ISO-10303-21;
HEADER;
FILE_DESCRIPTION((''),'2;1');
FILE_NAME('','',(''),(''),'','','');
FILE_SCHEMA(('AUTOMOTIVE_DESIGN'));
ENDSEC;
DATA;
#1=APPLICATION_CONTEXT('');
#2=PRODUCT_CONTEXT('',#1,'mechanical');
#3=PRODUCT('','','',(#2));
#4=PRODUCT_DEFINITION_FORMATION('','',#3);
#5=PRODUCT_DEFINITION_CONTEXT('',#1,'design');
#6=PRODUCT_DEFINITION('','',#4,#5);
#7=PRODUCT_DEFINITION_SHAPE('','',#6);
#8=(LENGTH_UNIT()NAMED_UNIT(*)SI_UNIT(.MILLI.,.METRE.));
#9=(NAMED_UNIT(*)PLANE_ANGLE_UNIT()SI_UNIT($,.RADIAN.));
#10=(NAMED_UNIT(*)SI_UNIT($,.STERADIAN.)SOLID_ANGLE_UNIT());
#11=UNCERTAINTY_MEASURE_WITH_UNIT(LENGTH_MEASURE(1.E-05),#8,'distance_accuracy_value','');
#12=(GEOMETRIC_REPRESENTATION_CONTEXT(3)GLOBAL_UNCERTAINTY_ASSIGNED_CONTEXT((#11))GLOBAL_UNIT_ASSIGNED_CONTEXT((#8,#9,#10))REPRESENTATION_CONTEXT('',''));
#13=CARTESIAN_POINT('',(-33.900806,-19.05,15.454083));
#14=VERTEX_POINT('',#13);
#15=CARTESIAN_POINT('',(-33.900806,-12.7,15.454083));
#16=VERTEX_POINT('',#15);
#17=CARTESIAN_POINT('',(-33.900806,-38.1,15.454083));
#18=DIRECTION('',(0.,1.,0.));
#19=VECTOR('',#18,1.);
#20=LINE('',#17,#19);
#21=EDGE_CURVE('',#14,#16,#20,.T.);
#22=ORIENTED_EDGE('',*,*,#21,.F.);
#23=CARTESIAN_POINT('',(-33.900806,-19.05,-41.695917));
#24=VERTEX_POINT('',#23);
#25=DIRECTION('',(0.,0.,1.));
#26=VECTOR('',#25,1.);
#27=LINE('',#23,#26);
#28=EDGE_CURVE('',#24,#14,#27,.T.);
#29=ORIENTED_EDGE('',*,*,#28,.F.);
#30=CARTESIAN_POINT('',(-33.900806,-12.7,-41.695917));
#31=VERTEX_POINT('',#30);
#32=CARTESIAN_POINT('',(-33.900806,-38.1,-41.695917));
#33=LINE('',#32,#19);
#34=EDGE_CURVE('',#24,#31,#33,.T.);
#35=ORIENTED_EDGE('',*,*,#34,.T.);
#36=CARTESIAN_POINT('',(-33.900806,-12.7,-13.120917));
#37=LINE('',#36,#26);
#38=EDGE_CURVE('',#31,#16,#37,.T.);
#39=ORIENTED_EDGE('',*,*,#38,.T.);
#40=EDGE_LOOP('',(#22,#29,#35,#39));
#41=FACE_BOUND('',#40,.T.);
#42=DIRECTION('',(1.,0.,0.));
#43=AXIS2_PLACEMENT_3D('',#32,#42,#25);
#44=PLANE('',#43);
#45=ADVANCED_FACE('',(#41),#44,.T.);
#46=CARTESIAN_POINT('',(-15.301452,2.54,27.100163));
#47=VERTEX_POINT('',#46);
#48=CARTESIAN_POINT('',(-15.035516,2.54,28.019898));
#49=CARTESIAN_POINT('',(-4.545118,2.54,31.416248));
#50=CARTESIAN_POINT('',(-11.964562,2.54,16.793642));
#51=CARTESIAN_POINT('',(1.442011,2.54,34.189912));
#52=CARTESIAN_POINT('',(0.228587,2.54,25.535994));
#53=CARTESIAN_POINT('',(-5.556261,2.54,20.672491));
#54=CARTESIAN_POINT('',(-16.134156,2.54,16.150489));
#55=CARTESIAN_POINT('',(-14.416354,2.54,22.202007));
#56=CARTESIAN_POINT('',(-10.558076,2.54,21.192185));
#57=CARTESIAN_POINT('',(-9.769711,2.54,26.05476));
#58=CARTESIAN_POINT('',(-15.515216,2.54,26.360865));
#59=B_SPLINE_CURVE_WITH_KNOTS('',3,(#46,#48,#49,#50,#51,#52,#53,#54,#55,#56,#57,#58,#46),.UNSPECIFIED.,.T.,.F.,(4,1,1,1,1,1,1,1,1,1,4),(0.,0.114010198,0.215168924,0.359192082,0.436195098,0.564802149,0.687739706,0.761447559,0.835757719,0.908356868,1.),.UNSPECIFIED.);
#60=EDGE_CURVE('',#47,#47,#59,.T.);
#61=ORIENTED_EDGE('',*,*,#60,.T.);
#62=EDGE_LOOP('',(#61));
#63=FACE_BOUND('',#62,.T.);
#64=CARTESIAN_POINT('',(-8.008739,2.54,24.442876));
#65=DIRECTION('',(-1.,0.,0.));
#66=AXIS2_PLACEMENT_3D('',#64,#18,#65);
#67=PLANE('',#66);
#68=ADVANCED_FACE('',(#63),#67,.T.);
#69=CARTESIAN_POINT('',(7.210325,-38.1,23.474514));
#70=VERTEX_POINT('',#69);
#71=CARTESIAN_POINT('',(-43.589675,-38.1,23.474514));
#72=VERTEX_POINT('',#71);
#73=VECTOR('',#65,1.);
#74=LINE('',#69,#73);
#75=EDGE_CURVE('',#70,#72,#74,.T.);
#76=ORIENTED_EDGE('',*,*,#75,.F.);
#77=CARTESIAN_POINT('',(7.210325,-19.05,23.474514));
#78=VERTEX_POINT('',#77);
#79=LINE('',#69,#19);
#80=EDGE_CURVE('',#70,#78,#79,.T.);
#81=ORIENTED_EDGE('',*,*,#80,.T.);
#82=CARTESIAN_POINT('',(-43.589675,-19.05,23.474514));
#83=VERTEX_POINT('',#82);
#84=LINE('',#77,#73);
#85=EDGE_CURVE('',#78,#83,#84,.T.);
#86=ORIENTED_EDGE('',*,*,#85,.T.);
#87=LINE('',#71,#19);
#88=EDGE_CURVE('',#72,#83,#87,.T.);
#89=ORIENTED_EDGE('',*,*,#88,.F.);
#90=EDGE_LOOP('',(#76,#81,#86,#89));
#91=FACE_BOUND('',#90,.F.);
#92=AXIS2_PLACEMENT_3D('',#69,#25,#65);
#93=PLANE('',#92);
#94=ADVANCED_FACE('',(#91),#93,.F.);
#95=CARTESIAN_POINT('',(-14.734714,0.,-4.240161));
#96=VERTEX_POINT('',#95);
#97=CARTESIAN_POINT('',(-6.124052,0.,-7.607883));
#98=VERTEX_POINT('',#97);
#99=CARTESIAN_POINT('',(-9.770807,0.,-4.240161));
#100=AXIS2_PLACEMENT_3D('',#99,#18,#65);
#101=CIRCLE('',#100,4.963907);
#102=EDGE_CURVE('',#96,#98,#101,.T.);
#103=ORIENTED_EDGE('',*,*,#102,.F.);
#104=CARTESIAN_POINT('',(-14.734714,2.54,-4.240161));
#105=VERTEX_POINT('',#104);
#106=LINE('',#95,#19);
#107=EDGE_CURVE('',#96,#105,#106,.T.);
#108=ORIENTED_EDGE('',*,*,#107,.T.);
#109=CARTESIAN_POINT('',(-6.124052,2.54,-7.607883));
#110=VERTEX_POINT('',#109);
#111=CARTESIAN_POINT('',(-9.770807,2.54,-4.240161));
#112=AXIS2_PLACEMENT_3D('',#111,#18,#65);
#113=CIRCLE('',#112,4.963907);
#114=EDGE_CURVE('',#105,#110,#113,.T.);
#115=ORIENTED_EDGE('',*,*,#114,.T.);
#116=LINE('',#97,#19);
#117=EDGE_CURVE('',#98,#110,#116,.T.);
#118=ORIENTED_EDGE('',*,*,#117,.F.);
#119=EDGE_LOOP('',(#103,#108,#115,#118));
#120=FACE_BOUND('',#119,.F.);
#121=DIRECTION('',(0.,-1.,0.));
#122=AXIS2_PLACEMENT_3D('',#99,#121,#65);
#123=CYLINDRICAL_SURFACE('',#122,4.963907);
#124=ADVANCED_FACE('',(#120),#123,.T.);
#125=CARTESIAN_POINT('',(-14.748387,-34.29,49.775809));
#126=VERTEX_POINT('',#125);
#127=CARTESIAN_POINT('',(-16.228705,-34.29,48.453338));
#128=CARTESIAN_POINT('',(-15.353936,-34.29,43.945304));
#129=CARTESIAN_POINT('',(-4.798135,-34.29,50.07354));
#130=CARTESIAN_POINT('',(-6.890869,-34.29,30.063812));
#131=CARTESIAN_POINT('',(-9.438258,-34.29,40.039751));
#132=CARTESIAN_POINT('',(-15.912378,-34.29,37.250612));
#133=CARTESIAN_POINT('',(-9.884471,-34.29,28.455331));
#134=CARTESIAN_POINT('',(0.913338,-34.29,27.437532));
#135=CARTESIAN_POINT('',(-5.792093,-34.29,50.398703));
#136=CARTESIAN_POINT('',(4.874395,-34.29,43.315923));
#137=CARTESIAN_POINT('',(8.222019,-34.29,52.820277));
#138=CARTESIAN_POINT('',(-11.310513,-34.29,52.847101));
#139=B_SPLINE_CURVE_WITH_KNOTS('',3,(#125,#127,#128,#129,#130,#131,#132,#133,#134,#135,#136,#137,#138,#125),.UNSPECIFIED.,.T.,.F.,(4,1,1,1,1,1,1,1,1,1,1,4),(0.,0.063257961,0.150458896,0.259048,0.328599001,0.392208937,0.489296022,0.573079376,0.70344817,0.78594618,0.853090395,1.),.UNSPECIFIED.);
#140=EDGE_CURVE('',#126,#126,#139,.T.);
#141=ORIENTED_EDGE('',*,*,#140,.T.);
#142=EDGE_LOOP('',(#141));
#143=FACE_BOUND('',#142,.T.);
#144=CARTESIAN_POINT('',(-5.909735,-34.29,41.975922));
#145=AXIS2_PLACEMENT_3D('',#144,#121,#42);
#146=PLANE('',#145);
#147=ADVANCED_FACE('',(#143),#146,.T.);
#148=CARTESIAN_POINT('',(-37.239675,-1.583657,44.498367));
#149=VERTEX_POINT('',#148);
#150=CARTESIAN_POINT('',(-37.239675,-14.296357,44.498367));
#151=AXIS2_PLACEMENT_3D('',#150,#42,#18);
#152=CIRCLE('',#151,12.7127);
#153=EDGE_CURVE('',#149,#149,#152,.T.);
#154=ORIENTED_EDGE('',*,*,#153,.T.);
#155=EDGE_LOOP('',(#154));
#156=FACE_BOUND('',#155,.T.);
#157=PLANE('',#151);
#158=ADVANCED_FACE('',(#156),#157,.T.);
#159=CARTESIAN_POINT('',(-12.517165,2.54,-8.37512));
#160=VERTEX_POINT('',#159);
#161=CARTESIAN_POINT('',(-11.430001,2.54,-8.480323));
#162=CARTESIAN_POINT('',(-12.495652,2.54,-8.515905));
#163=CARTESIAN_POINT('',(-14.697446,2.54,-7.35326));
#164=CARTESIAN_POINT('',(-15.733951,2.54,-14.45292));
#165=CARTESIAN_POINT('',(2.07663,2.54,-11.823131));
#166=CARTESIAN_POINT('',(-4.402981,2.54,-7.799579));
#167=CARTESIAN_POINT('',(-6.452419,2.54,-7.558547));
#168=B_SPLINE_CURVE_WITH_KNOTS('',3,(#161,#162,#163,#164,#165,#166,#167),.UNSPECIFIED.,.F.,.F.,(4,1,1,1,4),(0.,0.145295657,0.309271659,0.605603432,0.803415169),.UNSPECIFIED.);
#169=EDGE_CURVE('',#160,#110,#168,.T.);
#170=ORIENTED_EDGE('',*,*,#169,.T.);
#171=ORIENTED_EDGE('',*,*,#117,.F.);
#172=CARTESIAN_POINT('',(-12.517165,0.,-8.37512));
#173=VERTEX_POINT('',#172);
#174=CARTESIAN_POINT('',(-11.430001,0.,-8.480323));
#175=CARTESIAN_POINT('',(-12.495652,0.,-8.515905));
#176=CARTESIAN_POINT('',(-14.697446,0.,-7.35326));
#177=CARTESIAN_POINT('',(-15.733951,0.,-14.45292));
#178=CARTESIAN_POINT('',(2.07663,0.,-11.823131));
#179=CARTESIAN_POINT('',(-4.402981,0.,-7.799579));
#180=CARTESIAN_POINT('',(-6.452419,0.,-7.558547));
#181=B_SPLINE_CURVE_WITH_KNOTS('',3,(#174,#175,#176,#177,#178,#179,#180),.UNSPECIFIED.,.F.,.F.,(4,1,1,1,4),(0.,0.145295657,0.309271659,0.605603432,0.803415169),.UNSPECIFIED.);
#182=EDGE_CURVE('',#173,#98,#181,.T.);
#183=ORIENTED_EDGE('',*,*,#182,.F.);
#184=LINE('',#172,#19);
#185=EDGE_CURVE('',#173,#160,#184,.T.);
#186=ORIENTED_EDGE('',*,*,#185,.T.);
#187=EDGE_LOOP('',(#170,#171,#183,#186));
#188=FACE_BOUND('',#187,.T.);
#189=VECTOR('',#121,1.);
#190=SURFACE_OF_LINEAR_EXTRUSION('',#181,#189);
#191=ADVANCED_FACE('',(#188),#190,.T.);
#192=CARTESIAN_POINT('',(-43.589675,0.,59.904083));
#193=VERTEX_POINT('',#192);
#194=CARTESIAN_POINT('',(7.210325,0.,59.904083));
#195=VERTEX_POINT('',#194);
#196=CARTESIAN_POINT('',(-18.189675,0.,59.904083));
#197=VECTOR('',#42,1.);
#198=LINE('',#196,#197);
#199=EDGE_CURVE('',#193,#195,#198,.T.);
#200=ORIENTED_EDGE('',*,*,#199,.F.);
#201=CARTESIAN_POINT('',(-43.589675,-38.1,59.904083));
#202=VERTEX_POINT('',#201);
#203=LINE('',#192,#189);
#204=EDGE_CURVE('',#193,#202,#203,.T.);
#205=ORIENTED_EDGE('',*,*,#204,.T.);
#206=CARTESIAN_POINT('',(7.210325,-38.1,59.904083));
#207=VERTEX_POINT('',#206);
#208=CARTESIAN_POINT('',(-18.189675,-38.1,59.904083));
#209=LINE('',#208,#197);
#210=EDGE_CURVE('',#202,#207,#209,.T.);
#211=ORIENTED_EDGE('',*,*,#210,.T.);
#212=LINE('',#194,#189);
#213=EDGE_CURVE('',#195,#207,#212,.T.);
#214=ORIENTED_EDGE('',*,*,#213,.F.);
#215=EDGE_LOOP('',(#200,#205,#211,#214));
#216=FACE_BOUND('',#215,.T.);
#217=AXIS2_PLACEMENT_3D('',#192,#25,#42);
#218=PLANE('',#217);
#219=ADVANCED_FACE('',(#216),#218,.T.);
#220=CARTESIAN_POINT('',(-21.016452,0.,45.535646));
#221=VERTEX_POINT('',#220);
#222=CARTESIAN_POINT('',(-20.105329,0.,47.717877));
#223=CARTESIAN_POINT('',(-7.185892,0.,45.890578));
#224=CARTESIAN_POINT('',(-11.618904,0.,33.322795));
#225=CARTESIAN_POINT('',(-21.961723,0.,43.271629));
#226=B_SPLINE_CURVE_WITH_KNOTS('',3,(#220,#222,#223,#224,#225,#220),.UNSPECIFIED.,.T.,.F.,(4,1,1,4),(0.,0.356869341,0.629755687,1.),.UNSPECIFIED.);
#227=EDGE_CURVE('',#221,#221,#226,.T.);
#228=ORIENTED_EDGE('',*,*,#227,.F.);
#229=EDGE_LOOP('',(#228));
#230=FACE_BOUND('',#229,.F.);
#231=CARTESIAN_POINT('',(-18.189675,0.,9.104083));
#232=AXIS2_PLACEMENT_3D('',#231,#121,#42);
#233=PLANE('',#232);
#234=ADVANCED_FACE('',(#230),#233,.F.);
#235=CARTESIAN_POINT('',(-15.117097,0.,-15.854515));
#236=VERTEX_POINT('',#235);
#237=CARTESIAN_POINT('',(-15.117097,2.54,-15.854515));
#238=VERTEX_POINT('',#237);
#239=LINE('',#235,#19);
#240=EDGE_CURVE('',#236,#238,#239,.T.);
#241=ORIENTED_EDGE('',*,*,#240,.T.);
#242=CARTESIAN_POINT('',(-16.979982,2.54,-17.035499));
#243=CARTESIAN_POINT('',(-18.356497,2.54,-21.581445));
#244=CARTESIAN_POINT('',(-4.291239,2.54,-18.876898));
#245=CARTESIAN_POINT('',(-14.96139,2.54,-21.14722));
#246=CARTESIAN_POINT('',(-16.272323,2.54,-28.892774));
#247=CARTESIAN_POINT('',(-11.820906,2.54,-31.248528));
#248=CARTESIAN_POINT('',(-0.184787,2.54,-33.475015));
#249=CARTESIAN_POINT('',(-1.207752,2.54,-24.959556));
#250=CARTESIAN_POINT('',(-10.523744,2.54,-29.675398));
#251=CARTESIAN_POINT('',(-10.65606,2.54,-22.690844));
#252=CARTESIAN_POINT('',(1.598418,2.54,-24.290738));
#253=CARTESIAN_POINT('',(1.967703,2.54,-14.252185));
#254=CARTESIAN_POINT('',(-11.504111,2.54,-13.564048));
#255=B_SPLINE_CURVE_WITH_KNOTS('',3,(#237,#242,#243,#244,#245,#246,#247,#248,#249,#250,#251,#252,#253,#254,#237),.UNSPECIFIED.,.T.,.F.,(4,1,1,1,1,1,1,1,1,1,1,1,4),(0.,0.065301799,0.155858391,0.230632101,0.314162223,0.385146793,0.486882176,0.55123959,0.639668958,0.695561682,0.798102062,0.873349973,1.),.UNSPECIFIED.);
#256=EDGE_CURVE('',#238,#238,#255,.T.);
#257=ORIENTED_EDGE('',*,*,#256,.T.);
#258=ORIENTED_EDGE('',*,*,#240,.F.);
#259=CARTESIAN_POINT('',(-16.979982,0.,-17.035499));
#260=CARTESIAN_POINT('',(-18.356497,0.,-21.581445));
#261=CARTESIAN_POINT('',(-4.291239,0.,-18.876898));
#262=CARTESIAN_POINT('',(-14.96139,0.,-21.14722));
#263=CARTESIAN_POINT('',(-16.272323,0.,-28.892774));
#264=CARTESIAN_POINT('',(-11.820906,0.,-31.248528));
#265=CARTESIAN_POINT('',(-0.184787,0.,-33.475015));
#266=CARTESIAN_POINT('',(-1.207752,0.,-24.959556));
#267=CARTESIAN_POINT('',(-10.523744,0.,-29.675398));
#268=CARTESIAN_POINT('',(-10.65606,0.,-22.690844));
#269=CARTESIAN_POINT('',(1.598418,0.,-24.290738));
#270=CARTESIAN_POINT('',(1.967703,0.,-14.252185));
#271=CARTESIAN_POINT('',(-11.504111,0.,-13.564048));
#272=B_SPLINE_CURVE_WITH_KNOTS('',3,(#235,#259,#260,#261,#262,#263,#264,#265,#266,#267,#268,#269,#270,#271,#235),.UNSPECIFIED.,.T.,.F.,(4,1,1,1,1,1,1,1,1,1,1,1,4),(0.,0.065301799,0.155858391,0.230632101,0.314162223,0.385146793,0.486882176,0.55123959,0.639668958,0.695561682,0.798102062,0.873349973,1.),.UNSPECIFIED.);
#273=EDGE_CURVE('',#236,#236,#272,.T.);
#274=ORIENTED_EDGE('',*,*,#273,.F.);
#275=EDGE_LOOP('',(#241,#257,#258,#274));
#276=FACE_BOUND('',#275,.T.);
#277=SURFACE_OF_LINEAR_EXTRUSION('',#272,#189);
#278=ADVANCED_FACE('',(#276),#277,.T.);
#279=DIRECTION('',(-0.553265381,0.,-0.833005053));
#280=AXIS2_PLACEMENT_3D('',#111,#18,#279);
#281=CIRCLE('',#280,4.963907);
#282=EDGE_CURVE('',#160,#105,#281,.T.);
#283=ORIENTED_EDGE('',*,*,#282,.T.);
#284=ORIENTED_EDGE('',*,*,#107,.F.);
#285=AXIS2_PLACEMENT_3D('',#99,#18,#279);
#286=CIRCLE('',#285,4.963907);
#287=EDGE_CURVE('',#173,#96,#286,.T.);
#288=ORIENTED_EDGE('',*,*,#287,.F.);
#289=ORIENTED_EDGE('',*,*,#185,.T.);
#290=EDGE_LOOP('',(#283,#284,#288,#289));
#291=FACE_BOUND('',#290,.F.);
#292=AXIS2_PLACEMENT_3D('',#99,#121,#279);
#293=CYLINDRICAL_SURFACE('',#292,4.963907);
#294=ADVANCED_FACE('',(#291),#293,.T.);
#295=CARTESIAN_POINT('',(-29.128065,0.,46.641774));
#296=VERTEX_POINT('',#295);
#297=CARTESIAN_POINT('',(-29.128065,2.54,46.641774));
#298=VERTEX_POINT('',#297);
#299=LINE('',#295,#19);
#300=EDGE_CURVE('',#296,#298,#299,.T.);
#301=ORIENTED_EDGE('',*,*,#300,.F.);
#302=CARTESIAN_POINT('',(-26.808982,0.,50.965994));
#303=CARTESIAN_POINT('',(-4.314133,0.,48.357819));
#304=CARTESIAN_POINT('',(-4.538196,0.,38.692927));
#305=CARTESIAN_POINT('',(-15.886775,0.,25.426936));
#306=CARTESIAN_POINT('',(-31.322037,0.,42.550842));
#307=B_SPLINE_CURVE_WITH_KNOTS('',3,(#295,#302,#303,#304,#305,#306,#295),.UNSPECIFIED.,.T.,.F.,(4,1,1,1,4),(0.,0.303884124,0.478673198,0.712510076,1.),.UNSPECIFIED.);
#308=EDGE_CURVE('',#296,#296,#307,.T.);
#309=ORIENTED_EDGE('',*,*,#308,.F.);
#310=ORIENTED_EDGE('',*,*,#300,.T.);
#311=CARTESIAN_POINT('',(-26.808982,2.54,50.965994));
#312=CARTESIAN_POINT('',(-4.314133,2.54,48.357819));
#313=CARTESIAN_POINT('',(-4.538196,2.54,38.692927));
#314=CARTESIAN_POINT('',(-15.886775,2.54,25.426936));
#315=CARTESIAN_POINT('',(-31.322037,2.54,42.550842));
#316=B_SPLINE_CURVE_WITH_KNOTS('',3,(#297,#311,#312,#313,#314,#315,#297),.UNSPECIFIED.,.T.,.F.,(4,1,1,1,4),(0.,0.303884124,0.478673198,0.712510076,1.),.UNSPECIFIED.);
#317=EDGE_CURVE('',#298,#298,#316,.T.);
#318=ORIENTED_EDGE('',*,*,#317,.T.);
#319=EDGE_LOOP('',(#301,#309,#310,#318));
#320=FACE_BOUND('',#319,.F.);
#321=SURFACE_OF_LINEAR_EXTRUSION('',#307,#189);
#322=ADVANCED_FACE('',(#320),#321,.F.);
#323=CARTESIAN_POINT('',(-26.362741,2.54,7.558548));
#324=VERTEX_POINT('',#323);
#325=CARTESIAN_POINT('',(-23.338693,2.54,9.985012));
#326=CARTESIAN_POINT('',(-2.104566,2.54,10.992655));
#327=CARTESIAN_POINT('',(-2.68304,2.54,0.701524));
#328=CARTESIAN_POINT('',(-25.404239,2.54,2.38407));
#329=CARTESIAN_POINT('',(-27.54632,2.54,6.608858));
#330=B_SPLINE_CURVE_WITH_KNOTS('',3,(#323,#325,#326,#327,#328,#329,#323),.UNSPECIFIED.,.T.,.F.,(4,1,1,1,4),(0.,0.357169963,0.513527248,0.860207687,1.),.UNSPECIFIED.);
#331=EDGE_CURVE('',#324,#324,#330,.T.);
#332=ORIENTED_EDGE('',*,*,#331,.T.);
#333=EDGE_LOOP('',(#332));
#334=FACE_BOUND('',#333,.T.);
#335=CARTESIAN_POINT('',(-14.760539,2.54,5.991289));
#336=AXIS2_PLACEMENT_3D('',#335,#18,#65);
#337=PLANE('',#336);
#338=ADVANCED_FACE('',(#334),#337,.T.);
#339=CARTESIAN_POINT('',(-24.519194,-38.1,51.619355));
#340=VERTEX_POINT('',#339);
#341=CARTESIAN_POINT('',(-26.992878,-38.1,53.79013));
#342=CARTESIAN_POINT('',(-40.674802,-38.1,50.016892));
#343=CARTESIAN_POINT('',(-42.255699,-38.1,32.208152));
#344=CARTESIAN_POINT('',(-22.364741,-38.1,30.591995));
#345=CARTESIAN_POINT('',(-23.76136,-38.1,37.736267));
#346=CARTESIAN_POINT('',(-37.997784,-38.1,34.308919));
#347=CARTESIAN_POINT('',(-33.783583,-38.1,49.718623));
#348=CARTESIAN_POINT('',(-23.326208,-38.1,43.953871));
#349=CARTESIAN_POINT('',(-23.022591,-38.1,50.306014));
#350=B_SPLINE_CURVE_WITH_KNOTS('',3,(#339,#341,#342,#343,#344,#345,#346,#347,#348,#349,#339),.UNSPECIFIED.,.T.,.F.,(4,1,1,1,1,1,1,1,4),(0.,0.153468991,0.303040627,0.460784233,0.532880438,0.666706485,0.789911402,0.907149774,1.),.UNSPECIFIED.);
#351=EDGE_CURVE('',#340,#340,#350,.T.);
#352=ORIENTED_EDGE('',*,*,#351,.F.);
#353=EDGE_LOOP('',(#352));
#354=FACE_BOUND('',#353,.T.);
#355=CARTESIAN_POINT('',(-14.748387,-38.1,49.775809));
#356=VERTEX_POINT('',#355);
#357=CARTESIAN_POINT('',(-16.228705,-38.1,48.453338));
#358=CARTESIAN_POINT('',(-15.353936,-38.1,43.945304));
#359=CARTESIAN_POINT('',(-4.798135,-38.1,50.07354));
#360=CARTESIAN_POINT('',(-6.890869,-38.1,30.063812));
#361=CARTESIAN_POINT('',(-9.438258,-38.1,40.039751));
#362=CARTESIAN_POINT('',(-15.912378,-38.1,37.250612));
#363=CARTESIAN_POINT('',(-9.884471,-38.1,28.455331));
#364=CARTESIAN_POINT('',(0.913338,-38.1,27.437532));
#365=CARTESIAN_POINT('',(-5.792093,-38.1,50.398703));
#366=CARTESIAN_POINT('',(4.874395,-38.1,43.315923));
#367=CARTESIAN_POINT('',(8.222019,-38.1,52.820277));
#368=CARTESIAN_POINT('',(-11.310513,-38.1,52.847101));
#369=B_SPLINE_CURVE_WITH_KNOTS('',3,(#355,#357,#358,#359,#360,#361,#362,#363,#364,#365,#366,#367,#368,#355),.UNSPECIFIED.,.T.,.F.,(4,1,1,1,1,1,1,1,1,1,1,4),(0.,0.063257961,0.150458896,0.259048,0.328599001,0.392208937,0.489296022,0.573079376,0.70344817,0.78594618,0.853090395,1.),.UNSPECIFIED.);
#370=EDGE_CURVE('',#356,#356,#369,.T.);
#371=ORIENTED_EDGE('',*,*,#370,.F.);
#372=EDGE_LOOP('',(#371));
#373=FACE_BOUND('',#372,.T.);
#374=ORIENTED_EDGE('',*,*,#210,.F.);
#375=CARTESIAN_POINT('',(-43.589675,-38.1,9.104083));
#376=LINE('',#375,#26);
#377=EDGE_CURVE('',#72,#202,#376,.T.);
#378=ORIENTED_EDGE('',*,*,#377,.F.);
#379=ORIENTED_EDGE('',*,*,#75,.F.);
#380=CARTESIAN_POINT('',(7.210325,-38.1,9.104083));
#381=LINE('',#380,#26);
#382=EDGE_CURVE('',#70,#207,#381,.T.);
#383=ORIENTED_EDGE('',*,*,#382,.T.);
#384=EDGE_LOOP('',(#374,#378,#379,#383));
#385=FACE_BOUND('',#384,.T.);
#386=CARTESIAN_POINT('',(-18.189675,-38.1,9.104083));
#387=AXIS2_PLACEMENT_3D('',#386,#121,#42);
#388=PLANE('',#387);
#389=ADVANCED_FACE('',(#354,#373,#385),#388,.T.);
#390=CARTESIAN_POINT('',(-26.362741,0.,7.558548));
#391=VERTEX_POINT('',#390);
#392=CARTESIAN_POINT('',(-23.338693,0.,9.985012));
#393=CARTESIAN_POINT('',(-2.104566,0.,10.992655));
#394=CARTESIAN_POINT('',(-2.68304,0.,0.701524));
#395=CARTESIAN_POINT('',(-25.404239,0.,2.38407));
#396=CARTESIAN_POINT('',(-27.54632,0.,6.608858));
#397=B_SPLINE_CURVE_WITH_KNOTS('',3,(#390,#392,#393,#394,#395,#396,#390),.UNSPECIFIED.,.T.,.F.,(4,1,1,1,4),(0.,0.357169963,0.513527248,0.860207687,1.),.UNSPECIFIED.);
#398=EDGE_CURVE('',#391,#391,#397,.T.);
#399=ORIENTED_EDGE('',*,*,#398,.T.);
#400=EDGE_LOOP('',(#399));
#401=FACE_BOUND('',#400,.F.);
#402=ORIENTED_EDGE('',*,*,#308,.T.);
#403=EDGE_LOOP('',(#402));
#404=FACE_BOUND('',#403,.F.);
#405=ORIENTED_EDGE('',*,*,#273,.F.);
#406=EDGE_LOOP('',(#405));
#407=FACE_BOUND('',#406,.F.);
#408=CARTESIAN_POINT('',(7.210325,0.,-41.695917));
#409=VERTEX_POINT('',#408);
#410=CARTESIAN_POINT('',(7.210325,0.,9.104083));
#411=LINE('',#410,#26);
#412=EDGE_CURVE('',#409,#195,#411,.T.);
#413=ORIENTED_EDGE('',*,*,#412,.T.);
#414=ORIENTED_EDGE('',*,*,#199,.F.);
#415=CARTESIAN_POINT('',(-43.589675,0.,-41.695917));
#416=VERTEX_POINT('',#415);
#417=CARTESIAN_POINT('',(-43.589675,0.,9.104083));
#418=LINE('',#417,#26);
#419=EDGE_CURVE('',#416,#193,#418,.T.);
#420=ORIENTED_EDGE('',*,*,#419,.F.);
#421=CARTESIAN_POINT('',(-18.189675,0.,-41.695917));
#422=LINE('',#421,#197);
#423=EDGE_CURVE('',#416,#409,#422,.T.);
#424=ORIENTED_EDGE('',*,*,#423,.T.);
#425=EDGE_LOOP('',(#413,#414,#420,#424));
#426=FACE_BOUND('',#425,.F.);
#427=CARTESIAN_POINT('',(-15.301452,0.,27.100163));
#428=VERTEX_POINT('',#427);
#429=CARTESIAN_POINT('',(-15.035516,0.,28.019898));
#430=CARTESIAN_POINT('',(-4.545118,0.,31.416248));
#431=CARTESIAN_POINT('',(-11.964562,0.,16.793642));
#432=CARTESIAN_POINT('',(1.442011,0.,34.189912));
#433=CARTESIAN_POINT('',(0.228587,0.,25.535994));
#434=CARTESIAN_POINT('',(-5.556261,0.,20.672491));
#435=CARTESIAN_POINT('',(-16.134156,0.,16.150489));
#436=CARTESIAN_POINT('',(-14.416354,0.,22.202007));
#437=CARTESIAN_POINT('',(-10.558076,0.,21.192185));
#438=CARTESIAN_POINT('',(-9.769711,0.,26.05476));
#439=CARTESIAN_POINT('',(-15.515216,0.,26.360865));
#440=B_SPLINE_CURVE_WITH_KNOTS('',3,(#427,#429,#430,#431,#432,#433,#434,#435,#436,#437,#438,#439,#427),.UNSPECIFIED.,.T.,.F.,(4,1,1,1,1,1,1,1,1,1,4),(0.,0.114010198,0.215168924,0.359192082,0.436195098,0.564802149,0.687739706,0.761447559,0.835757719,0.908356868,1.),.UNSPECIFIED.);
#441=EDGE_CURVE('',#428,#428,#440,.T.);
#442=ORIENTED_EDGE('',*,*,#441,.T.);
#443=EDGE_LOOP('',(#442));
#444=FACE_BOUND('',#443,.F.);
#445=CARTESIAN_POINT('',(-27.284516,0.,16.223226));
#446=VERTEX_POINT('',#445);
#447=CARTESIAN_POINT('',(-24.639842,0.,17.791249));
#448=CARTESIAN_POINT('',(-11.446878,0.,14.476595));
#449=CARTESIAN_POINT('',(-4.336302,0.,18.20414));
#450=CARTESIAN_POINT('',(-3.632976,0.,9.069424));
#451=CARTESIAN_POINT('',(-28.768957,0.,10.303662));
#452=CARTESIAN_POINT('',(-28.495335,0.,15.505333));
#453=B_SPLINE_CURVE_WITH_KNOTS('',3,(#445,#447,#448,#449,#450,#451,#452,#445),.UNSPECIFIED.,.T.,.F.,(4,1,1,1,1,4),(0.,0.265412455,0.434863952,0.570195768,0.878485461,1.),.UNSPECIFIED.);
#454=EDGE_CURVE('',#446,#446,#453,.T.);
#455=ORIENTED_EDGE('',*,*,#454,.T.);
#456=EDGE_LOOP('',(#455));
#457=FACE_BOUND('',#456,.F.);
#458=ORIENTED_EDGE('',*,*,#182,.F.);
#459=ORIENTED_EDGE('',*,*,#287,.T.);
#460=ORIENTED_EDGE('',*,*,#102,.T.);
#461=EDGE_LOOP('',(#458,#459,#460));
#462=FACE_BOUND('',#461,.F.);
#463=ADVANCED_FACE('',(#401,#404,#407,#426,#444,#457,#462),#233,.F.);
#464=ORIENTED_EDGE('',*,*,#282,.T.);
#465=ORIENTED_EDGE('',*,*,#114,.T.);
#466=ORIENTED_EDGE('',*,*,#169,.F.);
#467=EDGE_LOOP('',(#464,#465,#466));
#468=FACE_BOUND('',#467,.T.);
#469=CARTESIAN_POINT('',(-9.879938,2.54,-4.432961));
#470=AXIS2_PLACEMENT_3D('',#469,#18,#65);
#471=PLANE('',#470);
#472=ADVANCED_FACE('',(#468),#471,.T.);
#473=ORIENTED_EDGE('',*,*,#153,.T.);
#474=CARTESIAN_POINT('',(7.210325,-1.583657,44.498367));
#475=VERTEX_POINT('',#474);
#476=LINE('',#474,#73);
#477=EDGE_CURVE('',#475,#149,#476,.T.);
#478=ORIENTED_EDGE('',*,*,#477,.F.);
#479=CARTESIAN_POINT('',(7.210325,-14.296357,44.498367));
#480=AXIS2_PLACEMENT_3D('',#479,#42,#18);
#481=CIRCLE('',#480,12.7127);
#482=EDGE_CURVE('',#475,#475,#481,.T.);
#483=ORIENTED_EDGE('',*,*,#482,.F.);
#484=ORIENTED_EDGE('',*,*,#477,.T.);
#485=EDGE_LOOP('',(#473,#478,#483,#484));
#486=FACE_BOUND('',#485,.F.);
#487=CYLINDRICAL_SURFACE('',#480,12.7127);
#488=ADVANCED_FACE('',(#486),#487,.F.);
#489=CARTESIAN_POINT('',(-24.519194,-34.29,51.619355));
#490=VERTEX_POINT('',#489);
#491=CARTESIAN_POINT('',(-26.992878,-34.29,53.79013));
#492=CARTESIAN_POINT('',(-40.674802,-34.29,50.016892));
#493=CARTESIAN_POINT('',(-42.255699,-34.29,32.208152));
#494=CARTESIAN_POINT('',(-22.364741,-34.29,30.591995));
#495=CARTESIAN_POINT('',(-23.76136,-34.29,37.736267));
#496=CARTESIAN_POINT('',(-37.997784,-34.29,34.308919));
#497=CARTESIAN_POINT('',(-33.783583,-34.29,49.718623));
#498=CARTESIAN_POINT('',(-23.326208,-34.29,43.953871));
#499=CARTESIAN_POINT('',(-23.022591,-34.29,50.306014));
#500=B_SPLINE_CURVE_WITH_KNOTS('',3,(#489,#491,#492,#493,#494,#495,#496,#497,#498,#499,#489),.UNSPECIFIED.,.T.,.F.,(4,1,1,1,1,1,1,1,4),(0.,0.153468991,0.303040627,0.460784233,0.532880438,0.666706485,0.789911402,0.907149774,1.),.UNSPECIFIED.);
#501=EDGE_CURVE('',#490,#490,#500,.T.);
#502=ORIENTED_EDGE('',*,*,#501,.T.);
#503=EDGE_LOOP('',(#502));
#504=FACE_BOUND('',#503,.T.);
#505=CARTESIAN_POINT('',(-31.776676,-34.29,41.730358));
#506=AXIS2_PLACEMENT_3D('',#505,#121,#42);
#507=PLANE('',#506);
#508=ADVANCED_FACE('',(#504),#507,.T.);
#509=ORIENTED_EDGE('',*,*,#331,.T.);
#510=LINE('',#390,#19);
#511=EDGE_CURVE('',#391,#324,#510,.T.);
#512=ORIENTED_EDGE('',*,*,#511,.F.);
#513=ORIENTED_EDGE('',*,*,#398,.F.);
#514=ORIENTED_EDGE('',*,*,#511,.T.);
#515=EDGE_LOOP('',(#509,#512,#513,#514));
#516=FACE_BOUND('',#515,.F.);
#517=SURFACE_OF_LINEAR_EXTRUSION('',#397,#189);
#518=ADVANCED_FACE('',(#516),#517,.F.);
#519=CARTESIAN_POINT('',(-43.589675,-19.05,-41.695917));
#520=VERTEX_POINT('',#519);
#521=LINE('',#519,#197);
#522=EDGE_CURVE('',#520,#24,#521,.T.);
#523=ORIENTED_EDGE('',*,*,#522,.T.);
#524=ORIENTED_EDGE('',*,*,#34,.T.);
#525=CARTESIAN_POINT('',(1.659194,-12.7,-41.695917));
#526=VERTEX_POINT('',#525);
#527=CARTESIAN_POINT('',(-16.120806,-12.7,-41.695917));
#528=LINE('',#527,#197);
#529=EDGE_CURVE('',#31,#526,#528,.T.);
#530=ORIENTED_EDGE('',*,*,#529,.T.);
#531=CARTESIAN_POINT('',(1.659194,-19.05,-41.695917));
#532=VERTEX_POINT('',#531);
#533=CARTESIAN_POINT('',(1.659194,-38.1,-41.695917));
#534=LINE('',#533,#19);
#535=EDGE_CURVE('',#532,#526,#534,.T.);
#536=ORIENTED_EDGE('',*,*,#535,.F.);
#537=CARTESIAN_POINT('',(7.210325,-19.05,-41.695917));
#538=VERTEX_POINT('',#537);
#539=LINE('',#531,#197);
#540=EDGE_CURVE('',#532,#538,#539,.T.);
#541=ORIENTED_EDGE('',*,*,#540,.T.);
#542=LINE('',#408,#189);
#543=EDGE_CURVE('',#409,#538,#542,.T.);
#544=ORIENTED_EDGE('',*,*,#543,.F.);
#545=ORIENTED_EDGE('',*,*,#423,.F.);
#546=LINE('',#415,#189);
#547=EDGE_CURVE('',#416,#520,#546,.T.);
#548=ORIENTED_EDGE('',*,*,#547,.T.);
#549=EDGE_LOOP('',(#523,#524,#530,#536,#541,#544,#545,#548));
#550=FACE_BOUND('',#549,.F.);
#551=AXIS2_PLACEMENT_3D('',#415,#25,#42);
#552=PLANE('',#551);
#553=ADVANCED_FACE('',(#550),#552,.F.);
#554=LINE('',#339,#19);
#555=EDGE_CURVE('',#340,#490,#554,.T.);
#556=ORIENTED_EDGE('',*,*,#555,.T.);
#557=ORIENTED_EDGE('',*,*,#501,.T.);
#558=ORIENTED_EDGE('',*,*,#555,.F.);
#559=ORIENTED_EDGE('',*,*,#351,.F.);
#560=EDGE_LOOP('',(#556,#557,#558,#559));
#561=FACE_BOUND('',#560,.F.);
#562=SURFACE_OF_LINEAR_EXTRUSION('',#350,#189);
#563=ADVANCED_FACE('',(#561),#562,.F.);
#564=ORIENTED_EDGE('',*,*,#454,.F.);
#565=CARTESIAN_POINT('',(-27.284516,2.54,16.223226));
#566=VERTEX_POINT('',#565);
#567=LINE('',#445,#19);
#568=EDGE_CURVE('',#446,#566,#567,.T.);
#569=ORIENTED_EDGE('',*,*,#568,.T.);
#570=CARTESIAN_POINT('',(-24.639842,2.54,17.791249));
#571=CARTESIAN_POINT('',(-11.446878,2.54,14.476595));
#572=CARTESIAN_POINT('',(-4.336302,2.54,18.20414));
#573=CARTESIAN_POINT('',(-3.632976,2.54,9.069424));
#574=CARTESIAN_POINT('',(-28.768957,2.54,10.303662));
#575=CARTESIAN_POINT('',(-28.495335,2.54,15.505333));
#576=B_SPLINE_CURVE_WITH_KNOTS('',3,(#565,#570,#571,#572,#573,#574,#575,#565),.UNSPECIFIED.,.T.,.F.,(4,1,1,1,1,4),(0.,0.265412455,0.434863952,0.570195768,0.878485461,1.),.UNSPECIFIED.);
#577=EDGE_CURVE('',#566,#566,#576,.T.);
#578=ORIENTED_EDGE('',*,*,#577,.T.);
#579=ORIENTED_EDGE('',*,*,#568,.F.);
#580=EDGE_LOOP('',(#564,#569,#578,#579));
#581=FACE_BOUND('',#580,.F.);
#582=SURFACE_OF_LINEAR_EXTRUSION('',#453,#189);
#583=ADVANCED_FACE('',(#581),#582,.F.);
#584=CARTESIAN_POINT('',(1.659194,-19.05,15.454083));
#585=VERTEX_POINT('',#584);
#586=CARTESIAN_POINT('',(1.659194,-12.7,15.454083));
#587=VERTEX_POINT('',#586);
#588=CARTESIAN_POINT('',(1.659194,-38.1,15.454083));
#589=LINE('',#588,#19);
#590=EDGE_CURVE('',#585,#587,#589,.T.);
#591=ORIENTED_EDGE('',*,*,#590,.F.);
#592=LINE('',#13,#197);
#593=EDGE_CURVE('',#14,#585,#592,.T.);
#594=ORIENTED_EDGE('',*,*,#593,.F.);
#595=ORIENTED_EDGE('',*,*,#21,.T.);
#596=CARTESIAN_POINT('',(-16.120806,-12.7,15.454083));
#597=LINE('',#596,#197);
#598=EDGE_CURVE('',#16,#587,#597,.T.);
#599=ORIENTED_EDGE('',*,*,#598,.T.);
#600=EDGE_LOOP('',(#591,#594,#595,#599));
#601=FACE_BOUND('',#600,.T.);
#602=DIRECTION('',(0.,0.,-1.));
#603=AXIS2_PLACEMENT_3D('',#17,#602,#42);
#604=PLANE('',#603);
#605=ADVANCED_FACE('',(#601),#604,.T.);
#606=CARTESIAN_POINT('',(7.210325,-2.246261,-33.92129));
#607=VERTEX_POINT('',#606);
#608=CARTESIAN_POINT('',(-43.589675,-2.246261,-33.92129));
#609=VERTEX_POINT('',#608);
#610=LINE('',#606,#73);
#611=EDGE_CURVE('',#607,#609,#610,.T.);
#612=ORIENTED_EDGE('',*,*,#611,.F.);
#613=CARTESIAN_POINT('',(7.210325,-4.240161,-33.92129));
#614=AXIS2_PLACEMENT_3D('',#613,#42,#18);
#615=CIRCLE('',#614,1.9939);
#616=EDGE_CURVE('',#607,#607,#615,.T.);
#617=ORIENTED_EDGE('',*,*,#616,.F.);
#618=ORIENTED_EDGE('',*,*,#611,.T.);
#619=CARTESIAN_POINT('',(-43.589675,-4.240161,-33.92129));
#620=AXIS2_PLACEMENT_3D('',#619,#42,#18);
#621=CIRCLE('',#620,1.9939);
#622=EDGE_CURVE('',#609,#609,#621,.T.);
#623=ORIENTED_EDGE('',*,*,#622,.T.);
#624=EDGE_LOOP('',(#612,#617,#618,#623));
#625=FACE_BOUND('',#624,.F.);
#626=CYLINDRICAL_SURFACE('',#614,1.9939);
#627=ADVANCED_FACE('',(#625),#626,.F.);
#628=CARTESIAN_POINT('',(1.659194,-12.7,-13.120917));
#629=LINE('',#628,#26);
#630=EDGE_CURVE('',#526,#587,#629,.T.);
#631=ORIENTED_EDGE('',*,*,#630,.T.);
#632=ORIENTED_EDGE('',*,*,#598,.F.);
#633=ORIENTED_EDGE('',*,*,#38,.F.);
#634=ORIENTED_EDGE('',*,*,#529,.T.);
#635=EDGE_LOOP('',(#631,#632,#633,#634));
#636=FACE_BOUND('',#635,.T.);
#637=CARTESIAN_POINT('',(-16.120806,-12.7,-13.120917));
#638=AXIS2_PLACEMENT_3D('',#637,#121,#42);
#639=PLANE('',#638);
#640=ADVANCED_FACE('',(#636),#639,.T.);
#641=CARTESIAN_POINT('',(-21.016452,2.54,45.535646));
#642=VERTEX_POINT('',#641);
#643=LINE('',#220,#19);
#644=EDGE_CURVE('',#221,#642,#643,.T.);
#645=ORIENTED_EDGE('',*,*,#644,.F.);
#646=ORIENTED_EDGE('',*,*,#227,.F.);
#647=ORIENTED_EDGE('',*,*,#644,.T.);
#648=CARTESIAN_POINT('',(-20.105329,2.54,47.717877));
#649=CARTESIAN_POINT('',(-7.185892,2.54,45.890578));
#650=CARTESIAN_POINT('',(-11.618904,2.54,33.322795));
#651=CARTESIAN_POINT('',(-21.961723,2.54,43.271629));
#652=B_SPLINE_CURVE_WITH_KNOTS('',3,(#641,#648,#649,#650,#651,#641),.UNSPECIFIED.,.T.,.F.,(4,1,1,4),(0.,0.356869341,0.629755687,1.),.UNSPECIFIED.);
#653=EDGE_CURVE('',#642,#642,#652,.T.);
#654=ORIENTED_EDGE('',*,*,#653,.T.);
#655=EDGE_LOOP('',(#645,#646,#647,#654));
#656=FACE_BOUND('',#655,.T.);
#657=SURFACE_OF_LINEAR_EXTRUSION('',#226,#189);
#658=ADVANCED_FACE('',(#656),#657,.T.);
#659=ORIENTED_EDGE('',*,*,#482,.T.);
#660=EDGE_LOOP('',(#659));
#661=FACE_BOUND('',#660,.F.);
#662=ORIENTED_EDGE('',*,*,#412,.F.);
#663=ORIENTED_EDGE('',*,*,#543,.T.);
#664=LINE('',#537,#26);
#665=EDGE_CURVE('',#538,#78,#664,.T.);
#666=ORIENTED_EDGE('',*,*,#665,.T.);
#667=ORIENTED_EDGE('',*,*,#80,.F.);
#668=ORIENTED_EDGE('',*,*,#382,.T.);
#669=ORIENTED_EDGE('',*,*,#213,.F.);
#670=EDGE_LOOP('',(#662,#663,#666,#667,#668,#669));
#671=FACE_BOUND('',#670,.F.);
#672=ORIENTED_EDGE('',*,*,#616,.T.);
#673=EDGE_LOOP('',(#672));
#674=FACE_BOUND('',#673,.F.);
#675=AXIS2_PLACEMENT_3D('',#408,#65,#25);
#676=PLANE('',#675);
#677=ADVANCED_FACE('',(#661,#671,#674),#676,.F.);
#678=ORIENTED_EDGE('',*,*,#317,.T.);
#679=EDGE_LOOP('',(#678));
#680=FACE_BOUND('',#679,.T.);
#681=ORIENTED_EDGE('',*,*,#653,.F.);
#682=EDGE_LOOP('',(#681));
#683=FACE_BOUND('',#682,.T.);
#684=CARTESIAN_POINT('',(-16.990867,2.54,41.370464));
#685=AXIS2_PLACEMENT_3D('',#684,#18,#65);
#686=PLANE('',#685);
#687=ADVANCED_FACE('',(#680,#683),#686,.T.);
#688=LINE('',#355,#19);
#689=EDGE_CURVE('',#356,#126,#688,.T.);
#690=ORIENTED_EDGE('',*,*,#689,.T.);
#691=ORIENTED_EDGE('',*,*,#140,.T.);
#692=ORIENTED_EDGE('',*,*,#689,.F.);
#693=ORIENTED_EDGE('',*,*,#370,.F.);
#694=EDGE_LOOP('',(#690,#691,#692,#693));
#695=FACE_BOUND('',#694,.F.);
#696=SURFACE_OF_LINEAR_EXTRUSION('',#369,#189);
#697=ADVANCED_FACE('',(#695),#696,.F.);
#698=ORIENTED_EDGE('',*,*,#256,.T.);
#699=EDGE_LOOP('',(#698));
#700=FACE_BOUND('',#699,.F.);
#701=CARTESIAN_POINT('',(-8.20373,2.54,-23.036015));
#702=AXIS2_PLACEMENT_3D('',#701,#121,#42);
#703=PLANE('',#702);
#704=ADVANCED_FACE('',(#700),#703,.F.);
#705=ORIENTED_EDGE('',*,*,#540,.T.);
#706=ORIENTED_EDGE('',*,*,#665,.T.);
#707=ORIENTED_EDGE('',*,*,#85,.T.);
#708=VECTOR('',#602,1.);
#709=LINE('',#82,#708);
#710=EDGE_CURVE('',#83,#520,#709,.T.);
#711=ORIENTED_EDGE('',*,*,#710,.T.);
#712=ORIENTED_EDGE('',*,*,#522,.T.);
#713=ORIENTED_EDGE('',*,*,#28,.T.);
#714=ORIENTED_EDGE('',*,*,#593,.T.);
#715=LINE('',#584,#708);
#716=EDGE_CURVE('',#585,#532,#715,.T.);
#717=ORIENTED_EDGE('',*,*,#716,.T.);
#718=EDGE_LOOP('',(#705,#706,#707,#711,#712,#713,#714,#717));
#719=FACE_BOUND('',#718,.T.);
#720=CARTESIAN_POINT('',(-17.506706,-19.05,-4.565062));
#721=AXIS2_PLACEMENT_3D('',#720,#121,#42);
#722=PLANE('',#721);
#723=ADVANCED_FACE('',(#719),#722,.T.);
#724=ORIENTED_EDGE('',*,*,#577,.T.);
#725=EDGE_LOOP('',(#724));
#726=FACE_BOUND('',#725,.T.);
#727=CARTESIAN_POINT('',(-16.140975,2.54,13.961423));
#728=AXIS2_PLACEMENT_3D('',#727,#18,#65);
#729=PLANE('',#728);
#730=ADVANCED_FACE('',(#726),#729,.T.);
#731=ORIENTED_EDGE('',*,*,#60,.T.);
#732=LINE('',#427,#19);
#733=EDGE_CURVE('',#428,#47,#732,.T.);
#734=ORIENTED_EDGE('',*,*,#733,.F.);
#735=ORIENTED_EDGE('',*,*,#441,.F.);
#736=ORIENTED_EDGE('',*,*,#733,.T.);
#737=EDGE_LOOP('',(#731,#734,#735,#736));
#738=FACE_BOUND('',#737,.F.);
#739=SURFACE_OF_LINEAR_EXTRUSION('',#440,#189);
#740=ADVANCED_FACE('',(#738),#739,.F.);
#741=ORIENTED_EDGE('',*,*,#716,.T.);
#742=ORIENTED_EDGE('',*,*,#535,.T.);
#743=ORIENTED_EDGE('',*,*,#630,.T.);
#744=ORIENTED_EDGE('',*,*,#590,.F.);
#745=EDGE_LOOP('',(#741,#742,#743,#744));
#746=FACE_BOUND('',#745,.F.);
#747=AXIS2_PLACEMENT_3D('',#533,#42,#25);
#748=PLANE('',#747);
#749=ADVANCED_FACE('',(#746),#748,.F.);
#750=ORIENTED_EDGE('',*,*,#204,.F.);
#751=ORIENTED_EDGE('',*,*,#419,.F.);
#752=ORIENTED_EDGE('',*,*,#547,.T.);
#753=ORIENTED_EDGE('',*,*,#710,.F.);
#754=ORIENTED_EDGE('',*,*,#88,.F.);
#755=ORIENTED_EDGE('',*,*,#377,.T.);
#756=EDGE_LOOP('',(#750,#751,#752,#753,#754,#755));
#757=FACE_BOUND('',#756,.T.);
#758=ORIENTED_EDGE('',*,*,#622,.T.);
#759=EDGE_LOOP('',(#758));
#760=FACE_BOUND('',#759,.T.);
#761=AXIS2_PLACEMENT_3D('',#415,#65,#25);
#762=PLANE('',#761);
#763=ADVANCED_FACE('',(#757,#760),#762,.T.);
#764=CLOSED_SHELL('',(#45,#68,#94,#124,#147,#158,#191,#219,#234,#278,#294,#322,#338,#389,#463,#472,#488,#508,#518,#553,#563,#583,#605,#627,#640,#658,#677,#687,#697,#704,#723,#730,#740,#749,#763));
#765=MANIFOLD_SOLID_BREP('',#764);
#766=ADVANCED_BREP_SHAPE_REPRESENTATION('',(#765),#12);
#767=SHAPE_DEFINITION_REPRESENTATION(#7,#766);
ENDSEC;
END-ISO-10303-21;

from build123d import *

# Parameters (mm, degrees)
F0_W      = 50.8
F0_H      = 101.6
F1_DEPTH  = 38.1
F2_W      = 35.56
F2_H      = 57.15
F3_DEPTH  = 25.4
F4_R      = 1.9939
F5_DEPTH  = 50.801
F8_DEPTH  = 19.05
F6_R      = 12.7127
F9_DEPTH  = 44.45
F11_DEPTH = 3.81
F13_DEPTH = 3.81
F15_DEPTH = 2.54
F17_DEPTH = 2.54


with BuildPart() as f1:
    # F0 (on Front) → F1 (new body)
    with BuildSketch(Plane.XZ):
        with Locations((-18.1896745238, 9.1040825018)):
            Rectangle(F0_W, F0_H)
    extrude(amount=F1_DEPTH)

    # F2 (on face) → F3 (cut)
    with BuildSketch(Plane.XZ.offset(38.1)):
        with Locations((-16.1208057597, -13.1209174982)):
            Rectangle(F2_W, F2_H)
    extrude(amount=-F3_DEPTH, mode=Mode.SUBTRACT)

    # F4 (on face) → F5 (cut, through all)
    with BuildSketch(Plane.YZ.offset(7.2103254762)):
        with Locations((-4.2401612736, -33.921290189)):
            Circle(F4_R)
    extrude(amount=-F5_DEPTH, mode=Mode.SUBTRACT)

    # F7 (on face) → F8 (cut)
    with BuildSketch(Plane.XZ.offset(38.1)):
        Polygon((7.2103254762, 23.4745144844), (-43.5896745238, 23.4745144844), (-43.5896745238, -41.6959174982), (-33.9008057597, -41.6959174982), (-33.9008057597, 15.4540825018), (1.6591942403, 15.4540825018), (1.6591942403, -41.6959174982), (7.2103254762, -41.6959174982), align=None)
    extrude(amount=-F8_DEPTH, mode=Mode.SUBTRACT)

    # F6 (on face) → F9 (cut)
    with BuildSketch(Plane.YZ.offset(7.2103254762)):
        with Locations((-14.296356844, 44.4983665516)):
            Circle(F6_R)
    extrude(amount=-F9_DEPTH, mode=Mode.SUBTRACT)

    # F10 (on face) → F11 (cut)
    with BuildSketch(Plane.XZ.offset(38.1)):
        with BuildLine():
            add(Edge.make_bspline(
                [(-24.5191939175, 51.6193546355), (-26.9928777594, 53.7901302829), (-40.6748023663, 50.0168923059), (-42.2556991084, 32.2081516515), (-22.3647414294, 30.5919949718), (-23.7613598817, 37.7362670918), (-37.9977837896, 34.3089193372), (-33.7835832276, 49.7186230364), (-23.3262079535, 43.9538713581), (-23.0225912269, 50.3060143373), (-24.5191939175, 51.6193546355)],
                knots=[0, 0, 0, 0, 0.1534689905, 0.3030406273, 0.4607842333, 0.5328804381, 0.6667064845, 0.7899114016, 0.9071497739, 1, 1, 1, 1], degree=3))
        make_face()
    extrude(amount=-F11_DEPTH, mode=Mode.SUBTRACT)

    # F12 (on face) → F13 (cut)
    with BuildSketch(Plane.XZ.offset(38.1)):
        with BuildLine():
            add(Edge.make_bspline(
                [(-14.7483870387, 49.7758090496), (-16.2287047897, 48.4533381333), (-15.3539362142, 43.9453043938), (-4.7981346282, 50.0735399317), (-6.8908694772, 30.0638116538), (-9.4382575341, 40.0397510285), (-15.9123775105, 37.2506119588), (-9.8844705864, 28.455331325), (0.9133382538, 27.4375315801), (-5.7920934364, 50.3987026273), (4.8743953987, 43.3159232301), (8.2220187581, 52.8202769942), (-11.3105131061, 52.8471012006), (-14.7483870387, 49.7758090496)],
                knots=[0, 0, 0, 0, 0.0632579613, 0.1504588961, 0.2590479995, 0.3285990014, 0.3922089372, 0.489296022, 0.5730793756, 0.7034481699, 0.78594618, 0.8530903948, 1, 1, 1, 1], degree=3))
        make_face()
    extrude(amount=-F13_DEPTH, mode=Mode.SUBTRACT)

    # F14 (on face) → F15 (join)
    with BuildSketch(Plane(origin=(0, 0, 0), x_dir=(-1, 0, 0), z_dir=(0, 1, 0))):
        with BuildLine():
            add(Edge.make_bspline(
                [(29.1280653328, 46.6417744756), (26.8089819672, 50.9659935548), (4.3141331023, 48.3578191481), (4.5381963465, 38.6929270534), (15.8867748668, 25.4269360704), (31.3220368109, 42.5508420555), (29.1280653328, 46.6417744756)],
                knots=[0, 0, 0, 0, 0.3038841242, 0.4786731982, 0.7125100757, 1, 1, 1, 1], degree=3))
        make_face()
        with BuildLine():
            add(Edge.make_bspline(
                [(21.0164524615, 45.535646379), (20.105329431, 47.7178767613), (7.1858916056, 45.8905780507), (11.6189038559, 33.3227947101), (21.9617231282, 43.2716290077), (21.0164524615, 45.535646379)],
                knots=[0, 0, 0, 0, 0.3568693413, 0.6297556873, 1, 1, 1, 1], degree=3))
        make_face(mode=Mode.SUBTRACT)
        with BuildLine():
            add(Edge.make_bspline(
                [(15.3014520183, 27.1001625806), (15.0355158357, 28.0198980993), (4.5451181707, 31.4162476177), (11.9645618504, 16.7936418753), (-1.4420113325, 34.1899120181), (-0.2285866017, 25.5359943598), (5.5562612579, 20.6724906824), (16.1341564293, 16.150489478), (14.4163543912, 22.202007023), (10.5580760831, 21.1921854772), (9.7697109403, 26.0547604472), (15.5152155688, 26.3608651747), (15.3014520183, 27.1001625806)],
                knots=[0, 0, 0, 0, 0.1140101984, 0.215168924, 0.3591920824, 0.4361950975, 0.5648021488, 0.6877397058, 0.7614475595, 0.8357577186, 0.9083568676, 1, 1, 1, 1], degree=3))
        make_face()
        with BuildLine():
            add(Edge.make_bspline(
                [(27.2845160216, 16.2232257426), (24.6398420748, 17.7912487204), (11.446877637, 14.4765951566), (4.336302359, 18.2041401744), (3.6329756881, 9.0694239092), (28.768957073, 10.3036621841), (28.4953346115, 15.5053333259), (27.2845160216, 16.2232257426)],
                knots=[0, 0, 0, 0, 0.2654124546, 0.4348639518, 0.5701957685, 0.8784854615, 1, 1, 1, 1], degree=3))
        make_face()
        with BuildLine():
            add(Edge.make_bspline(
                [(26.362741366, 7.5585483573), (23.3386927083, 9.9850117828), (2.1045661663, 10.992655336), (2.6830398649, 0.7015240447), (25.4042386583, 2.3840704327), (27.5463200561, 6.6088578174), (26.362741366, 7.5585483573)],
                knots=[0, 0, 0, 0, 0.3571699627, 0.5135272477, 0.860207687, 1, 1, 1, 1], degree=3))
        make_face()
        with BuildLine():
            add(Edge.make_bspline(
                [(11.4300008863, -8.4803234786), (12.4956519447, -8.5159048038), (14.6974456937, -7.3532603002), (15.733950948, -14.4529202457), (-2.0766297174, -11.8231312464), (4.40298088, -7.7995792153), (6.4524193294, -7.558547426)],
                knots=[0, 0, 0, 0, 0.1452956567, 0.3092716589, 0.6056034316, 0.8034151694, 0.8034151694, 0.8034151694, 0.8034151694], degree=3))
            add(Edge.make_bspline(
                [(6.4524193294, -7.558547426), (7.8220830801, -9.0018886836), (10.0420617108, -9.3999662422), (11.4300008863, -8.4803234786)],
                knots=[0.5975611693, 0.5975611693, 0.5975611693, 0.5975611693, 0.7953265713, 0.7953265713, 0.7953265713, 0.7953265713], degree=3))
        make_face()
        with BuildLine():
            add(Edge.make_bspline(
                [(15.1170967147, -15.8545151353), (16.9799818385, -17.0354987811), (18.3564967227, -21.5814451978), (4.2912393544, -18.8768979255), (14.9613897604, -21.1472202061), (16.2723234013, -28.8927738547), (11.8209060811, -31.2485284015), (0.1847874312, -33.4750148093), (1.2077520222, -24.9595558128), (10.5237435841, -29.6753975871), (10.6560599884, -22.6908440851), (-1.5984183961, -24.2907384177), (-1.9677034932, -14.2521853546), (11.5041112181, -13.564048198), (15.1170967147, -15.8545151353)],
                knots=[0, 0, 0, 0, 0.0653017986, 0.1558583913, 0.2306321007, 0.3141622232, 0.3851467931, 0.4868821764, 0.5512395898, 0.6396689576, 0.6955616824, 0.7981020623, 0.8733499729, 1, 1, 1, 1], degree=3))
        make_face()
    extrude(amount=F15_DEPTH)

    # F16 (on face) → F17 (join)
    with BuildSketch(Plane(origin=(0, 0, 0), x_dir=(-1, 0, 0), z_dir=(0, 1, 0))):
        with BuildLine():
            ThreePointArc((12.5171647467, -8.3751203785), (14.1453375446, -6.5861901435), (14.7347138268, -4.240160808))
            ThreePointArc((14.7347138268, -4.240160808), (7.9627385729, 0.3827453332), (6.1240523403, -7.6078831132))
            add(Edge.make_bspline(
                [(6.1240523403, -7.6078831132), (6.234658596, -7.5877919373), (6.3442966251, -7.5712635966), (6.4524193294, -7.558547426)],
                knots=[0.7929791692, 0.7929791692, 0.7929791692, 0.7929791692, 0.8034151694, 0.8034151694, 0.8034151694, 0.8034151694], degree=3))
            add(Edge.make_bspline(
                [(6.4524193294, -7.558547426), (7.8220830801, -9.0018886836), (10.0420617108, -9.3999662422), (11.4300008863, -8.4803234786)],
                knots=[0.5975611693, 0.5975611693, 0.5975611693, 0.5975611693, 0.7953265713, 0.7953265713, 0.7953265713, 0.7953265713], degree=3))
            add(Edge.make_bspline(
                [(11.4300008863, -8.4803234786), (11.8009244196, -8.4927083496), (12.1680619358, -8.4346067455), (12.5171647467, -8.3751203785)],
                knots=[0, 0, 0, 0, 0.0505733823, 0.0505733823, 0.0505733823, 0.0505733823], degree=3))
        make_face()
    extrude(amount=F17_DEPTH)


solid = f1.part
